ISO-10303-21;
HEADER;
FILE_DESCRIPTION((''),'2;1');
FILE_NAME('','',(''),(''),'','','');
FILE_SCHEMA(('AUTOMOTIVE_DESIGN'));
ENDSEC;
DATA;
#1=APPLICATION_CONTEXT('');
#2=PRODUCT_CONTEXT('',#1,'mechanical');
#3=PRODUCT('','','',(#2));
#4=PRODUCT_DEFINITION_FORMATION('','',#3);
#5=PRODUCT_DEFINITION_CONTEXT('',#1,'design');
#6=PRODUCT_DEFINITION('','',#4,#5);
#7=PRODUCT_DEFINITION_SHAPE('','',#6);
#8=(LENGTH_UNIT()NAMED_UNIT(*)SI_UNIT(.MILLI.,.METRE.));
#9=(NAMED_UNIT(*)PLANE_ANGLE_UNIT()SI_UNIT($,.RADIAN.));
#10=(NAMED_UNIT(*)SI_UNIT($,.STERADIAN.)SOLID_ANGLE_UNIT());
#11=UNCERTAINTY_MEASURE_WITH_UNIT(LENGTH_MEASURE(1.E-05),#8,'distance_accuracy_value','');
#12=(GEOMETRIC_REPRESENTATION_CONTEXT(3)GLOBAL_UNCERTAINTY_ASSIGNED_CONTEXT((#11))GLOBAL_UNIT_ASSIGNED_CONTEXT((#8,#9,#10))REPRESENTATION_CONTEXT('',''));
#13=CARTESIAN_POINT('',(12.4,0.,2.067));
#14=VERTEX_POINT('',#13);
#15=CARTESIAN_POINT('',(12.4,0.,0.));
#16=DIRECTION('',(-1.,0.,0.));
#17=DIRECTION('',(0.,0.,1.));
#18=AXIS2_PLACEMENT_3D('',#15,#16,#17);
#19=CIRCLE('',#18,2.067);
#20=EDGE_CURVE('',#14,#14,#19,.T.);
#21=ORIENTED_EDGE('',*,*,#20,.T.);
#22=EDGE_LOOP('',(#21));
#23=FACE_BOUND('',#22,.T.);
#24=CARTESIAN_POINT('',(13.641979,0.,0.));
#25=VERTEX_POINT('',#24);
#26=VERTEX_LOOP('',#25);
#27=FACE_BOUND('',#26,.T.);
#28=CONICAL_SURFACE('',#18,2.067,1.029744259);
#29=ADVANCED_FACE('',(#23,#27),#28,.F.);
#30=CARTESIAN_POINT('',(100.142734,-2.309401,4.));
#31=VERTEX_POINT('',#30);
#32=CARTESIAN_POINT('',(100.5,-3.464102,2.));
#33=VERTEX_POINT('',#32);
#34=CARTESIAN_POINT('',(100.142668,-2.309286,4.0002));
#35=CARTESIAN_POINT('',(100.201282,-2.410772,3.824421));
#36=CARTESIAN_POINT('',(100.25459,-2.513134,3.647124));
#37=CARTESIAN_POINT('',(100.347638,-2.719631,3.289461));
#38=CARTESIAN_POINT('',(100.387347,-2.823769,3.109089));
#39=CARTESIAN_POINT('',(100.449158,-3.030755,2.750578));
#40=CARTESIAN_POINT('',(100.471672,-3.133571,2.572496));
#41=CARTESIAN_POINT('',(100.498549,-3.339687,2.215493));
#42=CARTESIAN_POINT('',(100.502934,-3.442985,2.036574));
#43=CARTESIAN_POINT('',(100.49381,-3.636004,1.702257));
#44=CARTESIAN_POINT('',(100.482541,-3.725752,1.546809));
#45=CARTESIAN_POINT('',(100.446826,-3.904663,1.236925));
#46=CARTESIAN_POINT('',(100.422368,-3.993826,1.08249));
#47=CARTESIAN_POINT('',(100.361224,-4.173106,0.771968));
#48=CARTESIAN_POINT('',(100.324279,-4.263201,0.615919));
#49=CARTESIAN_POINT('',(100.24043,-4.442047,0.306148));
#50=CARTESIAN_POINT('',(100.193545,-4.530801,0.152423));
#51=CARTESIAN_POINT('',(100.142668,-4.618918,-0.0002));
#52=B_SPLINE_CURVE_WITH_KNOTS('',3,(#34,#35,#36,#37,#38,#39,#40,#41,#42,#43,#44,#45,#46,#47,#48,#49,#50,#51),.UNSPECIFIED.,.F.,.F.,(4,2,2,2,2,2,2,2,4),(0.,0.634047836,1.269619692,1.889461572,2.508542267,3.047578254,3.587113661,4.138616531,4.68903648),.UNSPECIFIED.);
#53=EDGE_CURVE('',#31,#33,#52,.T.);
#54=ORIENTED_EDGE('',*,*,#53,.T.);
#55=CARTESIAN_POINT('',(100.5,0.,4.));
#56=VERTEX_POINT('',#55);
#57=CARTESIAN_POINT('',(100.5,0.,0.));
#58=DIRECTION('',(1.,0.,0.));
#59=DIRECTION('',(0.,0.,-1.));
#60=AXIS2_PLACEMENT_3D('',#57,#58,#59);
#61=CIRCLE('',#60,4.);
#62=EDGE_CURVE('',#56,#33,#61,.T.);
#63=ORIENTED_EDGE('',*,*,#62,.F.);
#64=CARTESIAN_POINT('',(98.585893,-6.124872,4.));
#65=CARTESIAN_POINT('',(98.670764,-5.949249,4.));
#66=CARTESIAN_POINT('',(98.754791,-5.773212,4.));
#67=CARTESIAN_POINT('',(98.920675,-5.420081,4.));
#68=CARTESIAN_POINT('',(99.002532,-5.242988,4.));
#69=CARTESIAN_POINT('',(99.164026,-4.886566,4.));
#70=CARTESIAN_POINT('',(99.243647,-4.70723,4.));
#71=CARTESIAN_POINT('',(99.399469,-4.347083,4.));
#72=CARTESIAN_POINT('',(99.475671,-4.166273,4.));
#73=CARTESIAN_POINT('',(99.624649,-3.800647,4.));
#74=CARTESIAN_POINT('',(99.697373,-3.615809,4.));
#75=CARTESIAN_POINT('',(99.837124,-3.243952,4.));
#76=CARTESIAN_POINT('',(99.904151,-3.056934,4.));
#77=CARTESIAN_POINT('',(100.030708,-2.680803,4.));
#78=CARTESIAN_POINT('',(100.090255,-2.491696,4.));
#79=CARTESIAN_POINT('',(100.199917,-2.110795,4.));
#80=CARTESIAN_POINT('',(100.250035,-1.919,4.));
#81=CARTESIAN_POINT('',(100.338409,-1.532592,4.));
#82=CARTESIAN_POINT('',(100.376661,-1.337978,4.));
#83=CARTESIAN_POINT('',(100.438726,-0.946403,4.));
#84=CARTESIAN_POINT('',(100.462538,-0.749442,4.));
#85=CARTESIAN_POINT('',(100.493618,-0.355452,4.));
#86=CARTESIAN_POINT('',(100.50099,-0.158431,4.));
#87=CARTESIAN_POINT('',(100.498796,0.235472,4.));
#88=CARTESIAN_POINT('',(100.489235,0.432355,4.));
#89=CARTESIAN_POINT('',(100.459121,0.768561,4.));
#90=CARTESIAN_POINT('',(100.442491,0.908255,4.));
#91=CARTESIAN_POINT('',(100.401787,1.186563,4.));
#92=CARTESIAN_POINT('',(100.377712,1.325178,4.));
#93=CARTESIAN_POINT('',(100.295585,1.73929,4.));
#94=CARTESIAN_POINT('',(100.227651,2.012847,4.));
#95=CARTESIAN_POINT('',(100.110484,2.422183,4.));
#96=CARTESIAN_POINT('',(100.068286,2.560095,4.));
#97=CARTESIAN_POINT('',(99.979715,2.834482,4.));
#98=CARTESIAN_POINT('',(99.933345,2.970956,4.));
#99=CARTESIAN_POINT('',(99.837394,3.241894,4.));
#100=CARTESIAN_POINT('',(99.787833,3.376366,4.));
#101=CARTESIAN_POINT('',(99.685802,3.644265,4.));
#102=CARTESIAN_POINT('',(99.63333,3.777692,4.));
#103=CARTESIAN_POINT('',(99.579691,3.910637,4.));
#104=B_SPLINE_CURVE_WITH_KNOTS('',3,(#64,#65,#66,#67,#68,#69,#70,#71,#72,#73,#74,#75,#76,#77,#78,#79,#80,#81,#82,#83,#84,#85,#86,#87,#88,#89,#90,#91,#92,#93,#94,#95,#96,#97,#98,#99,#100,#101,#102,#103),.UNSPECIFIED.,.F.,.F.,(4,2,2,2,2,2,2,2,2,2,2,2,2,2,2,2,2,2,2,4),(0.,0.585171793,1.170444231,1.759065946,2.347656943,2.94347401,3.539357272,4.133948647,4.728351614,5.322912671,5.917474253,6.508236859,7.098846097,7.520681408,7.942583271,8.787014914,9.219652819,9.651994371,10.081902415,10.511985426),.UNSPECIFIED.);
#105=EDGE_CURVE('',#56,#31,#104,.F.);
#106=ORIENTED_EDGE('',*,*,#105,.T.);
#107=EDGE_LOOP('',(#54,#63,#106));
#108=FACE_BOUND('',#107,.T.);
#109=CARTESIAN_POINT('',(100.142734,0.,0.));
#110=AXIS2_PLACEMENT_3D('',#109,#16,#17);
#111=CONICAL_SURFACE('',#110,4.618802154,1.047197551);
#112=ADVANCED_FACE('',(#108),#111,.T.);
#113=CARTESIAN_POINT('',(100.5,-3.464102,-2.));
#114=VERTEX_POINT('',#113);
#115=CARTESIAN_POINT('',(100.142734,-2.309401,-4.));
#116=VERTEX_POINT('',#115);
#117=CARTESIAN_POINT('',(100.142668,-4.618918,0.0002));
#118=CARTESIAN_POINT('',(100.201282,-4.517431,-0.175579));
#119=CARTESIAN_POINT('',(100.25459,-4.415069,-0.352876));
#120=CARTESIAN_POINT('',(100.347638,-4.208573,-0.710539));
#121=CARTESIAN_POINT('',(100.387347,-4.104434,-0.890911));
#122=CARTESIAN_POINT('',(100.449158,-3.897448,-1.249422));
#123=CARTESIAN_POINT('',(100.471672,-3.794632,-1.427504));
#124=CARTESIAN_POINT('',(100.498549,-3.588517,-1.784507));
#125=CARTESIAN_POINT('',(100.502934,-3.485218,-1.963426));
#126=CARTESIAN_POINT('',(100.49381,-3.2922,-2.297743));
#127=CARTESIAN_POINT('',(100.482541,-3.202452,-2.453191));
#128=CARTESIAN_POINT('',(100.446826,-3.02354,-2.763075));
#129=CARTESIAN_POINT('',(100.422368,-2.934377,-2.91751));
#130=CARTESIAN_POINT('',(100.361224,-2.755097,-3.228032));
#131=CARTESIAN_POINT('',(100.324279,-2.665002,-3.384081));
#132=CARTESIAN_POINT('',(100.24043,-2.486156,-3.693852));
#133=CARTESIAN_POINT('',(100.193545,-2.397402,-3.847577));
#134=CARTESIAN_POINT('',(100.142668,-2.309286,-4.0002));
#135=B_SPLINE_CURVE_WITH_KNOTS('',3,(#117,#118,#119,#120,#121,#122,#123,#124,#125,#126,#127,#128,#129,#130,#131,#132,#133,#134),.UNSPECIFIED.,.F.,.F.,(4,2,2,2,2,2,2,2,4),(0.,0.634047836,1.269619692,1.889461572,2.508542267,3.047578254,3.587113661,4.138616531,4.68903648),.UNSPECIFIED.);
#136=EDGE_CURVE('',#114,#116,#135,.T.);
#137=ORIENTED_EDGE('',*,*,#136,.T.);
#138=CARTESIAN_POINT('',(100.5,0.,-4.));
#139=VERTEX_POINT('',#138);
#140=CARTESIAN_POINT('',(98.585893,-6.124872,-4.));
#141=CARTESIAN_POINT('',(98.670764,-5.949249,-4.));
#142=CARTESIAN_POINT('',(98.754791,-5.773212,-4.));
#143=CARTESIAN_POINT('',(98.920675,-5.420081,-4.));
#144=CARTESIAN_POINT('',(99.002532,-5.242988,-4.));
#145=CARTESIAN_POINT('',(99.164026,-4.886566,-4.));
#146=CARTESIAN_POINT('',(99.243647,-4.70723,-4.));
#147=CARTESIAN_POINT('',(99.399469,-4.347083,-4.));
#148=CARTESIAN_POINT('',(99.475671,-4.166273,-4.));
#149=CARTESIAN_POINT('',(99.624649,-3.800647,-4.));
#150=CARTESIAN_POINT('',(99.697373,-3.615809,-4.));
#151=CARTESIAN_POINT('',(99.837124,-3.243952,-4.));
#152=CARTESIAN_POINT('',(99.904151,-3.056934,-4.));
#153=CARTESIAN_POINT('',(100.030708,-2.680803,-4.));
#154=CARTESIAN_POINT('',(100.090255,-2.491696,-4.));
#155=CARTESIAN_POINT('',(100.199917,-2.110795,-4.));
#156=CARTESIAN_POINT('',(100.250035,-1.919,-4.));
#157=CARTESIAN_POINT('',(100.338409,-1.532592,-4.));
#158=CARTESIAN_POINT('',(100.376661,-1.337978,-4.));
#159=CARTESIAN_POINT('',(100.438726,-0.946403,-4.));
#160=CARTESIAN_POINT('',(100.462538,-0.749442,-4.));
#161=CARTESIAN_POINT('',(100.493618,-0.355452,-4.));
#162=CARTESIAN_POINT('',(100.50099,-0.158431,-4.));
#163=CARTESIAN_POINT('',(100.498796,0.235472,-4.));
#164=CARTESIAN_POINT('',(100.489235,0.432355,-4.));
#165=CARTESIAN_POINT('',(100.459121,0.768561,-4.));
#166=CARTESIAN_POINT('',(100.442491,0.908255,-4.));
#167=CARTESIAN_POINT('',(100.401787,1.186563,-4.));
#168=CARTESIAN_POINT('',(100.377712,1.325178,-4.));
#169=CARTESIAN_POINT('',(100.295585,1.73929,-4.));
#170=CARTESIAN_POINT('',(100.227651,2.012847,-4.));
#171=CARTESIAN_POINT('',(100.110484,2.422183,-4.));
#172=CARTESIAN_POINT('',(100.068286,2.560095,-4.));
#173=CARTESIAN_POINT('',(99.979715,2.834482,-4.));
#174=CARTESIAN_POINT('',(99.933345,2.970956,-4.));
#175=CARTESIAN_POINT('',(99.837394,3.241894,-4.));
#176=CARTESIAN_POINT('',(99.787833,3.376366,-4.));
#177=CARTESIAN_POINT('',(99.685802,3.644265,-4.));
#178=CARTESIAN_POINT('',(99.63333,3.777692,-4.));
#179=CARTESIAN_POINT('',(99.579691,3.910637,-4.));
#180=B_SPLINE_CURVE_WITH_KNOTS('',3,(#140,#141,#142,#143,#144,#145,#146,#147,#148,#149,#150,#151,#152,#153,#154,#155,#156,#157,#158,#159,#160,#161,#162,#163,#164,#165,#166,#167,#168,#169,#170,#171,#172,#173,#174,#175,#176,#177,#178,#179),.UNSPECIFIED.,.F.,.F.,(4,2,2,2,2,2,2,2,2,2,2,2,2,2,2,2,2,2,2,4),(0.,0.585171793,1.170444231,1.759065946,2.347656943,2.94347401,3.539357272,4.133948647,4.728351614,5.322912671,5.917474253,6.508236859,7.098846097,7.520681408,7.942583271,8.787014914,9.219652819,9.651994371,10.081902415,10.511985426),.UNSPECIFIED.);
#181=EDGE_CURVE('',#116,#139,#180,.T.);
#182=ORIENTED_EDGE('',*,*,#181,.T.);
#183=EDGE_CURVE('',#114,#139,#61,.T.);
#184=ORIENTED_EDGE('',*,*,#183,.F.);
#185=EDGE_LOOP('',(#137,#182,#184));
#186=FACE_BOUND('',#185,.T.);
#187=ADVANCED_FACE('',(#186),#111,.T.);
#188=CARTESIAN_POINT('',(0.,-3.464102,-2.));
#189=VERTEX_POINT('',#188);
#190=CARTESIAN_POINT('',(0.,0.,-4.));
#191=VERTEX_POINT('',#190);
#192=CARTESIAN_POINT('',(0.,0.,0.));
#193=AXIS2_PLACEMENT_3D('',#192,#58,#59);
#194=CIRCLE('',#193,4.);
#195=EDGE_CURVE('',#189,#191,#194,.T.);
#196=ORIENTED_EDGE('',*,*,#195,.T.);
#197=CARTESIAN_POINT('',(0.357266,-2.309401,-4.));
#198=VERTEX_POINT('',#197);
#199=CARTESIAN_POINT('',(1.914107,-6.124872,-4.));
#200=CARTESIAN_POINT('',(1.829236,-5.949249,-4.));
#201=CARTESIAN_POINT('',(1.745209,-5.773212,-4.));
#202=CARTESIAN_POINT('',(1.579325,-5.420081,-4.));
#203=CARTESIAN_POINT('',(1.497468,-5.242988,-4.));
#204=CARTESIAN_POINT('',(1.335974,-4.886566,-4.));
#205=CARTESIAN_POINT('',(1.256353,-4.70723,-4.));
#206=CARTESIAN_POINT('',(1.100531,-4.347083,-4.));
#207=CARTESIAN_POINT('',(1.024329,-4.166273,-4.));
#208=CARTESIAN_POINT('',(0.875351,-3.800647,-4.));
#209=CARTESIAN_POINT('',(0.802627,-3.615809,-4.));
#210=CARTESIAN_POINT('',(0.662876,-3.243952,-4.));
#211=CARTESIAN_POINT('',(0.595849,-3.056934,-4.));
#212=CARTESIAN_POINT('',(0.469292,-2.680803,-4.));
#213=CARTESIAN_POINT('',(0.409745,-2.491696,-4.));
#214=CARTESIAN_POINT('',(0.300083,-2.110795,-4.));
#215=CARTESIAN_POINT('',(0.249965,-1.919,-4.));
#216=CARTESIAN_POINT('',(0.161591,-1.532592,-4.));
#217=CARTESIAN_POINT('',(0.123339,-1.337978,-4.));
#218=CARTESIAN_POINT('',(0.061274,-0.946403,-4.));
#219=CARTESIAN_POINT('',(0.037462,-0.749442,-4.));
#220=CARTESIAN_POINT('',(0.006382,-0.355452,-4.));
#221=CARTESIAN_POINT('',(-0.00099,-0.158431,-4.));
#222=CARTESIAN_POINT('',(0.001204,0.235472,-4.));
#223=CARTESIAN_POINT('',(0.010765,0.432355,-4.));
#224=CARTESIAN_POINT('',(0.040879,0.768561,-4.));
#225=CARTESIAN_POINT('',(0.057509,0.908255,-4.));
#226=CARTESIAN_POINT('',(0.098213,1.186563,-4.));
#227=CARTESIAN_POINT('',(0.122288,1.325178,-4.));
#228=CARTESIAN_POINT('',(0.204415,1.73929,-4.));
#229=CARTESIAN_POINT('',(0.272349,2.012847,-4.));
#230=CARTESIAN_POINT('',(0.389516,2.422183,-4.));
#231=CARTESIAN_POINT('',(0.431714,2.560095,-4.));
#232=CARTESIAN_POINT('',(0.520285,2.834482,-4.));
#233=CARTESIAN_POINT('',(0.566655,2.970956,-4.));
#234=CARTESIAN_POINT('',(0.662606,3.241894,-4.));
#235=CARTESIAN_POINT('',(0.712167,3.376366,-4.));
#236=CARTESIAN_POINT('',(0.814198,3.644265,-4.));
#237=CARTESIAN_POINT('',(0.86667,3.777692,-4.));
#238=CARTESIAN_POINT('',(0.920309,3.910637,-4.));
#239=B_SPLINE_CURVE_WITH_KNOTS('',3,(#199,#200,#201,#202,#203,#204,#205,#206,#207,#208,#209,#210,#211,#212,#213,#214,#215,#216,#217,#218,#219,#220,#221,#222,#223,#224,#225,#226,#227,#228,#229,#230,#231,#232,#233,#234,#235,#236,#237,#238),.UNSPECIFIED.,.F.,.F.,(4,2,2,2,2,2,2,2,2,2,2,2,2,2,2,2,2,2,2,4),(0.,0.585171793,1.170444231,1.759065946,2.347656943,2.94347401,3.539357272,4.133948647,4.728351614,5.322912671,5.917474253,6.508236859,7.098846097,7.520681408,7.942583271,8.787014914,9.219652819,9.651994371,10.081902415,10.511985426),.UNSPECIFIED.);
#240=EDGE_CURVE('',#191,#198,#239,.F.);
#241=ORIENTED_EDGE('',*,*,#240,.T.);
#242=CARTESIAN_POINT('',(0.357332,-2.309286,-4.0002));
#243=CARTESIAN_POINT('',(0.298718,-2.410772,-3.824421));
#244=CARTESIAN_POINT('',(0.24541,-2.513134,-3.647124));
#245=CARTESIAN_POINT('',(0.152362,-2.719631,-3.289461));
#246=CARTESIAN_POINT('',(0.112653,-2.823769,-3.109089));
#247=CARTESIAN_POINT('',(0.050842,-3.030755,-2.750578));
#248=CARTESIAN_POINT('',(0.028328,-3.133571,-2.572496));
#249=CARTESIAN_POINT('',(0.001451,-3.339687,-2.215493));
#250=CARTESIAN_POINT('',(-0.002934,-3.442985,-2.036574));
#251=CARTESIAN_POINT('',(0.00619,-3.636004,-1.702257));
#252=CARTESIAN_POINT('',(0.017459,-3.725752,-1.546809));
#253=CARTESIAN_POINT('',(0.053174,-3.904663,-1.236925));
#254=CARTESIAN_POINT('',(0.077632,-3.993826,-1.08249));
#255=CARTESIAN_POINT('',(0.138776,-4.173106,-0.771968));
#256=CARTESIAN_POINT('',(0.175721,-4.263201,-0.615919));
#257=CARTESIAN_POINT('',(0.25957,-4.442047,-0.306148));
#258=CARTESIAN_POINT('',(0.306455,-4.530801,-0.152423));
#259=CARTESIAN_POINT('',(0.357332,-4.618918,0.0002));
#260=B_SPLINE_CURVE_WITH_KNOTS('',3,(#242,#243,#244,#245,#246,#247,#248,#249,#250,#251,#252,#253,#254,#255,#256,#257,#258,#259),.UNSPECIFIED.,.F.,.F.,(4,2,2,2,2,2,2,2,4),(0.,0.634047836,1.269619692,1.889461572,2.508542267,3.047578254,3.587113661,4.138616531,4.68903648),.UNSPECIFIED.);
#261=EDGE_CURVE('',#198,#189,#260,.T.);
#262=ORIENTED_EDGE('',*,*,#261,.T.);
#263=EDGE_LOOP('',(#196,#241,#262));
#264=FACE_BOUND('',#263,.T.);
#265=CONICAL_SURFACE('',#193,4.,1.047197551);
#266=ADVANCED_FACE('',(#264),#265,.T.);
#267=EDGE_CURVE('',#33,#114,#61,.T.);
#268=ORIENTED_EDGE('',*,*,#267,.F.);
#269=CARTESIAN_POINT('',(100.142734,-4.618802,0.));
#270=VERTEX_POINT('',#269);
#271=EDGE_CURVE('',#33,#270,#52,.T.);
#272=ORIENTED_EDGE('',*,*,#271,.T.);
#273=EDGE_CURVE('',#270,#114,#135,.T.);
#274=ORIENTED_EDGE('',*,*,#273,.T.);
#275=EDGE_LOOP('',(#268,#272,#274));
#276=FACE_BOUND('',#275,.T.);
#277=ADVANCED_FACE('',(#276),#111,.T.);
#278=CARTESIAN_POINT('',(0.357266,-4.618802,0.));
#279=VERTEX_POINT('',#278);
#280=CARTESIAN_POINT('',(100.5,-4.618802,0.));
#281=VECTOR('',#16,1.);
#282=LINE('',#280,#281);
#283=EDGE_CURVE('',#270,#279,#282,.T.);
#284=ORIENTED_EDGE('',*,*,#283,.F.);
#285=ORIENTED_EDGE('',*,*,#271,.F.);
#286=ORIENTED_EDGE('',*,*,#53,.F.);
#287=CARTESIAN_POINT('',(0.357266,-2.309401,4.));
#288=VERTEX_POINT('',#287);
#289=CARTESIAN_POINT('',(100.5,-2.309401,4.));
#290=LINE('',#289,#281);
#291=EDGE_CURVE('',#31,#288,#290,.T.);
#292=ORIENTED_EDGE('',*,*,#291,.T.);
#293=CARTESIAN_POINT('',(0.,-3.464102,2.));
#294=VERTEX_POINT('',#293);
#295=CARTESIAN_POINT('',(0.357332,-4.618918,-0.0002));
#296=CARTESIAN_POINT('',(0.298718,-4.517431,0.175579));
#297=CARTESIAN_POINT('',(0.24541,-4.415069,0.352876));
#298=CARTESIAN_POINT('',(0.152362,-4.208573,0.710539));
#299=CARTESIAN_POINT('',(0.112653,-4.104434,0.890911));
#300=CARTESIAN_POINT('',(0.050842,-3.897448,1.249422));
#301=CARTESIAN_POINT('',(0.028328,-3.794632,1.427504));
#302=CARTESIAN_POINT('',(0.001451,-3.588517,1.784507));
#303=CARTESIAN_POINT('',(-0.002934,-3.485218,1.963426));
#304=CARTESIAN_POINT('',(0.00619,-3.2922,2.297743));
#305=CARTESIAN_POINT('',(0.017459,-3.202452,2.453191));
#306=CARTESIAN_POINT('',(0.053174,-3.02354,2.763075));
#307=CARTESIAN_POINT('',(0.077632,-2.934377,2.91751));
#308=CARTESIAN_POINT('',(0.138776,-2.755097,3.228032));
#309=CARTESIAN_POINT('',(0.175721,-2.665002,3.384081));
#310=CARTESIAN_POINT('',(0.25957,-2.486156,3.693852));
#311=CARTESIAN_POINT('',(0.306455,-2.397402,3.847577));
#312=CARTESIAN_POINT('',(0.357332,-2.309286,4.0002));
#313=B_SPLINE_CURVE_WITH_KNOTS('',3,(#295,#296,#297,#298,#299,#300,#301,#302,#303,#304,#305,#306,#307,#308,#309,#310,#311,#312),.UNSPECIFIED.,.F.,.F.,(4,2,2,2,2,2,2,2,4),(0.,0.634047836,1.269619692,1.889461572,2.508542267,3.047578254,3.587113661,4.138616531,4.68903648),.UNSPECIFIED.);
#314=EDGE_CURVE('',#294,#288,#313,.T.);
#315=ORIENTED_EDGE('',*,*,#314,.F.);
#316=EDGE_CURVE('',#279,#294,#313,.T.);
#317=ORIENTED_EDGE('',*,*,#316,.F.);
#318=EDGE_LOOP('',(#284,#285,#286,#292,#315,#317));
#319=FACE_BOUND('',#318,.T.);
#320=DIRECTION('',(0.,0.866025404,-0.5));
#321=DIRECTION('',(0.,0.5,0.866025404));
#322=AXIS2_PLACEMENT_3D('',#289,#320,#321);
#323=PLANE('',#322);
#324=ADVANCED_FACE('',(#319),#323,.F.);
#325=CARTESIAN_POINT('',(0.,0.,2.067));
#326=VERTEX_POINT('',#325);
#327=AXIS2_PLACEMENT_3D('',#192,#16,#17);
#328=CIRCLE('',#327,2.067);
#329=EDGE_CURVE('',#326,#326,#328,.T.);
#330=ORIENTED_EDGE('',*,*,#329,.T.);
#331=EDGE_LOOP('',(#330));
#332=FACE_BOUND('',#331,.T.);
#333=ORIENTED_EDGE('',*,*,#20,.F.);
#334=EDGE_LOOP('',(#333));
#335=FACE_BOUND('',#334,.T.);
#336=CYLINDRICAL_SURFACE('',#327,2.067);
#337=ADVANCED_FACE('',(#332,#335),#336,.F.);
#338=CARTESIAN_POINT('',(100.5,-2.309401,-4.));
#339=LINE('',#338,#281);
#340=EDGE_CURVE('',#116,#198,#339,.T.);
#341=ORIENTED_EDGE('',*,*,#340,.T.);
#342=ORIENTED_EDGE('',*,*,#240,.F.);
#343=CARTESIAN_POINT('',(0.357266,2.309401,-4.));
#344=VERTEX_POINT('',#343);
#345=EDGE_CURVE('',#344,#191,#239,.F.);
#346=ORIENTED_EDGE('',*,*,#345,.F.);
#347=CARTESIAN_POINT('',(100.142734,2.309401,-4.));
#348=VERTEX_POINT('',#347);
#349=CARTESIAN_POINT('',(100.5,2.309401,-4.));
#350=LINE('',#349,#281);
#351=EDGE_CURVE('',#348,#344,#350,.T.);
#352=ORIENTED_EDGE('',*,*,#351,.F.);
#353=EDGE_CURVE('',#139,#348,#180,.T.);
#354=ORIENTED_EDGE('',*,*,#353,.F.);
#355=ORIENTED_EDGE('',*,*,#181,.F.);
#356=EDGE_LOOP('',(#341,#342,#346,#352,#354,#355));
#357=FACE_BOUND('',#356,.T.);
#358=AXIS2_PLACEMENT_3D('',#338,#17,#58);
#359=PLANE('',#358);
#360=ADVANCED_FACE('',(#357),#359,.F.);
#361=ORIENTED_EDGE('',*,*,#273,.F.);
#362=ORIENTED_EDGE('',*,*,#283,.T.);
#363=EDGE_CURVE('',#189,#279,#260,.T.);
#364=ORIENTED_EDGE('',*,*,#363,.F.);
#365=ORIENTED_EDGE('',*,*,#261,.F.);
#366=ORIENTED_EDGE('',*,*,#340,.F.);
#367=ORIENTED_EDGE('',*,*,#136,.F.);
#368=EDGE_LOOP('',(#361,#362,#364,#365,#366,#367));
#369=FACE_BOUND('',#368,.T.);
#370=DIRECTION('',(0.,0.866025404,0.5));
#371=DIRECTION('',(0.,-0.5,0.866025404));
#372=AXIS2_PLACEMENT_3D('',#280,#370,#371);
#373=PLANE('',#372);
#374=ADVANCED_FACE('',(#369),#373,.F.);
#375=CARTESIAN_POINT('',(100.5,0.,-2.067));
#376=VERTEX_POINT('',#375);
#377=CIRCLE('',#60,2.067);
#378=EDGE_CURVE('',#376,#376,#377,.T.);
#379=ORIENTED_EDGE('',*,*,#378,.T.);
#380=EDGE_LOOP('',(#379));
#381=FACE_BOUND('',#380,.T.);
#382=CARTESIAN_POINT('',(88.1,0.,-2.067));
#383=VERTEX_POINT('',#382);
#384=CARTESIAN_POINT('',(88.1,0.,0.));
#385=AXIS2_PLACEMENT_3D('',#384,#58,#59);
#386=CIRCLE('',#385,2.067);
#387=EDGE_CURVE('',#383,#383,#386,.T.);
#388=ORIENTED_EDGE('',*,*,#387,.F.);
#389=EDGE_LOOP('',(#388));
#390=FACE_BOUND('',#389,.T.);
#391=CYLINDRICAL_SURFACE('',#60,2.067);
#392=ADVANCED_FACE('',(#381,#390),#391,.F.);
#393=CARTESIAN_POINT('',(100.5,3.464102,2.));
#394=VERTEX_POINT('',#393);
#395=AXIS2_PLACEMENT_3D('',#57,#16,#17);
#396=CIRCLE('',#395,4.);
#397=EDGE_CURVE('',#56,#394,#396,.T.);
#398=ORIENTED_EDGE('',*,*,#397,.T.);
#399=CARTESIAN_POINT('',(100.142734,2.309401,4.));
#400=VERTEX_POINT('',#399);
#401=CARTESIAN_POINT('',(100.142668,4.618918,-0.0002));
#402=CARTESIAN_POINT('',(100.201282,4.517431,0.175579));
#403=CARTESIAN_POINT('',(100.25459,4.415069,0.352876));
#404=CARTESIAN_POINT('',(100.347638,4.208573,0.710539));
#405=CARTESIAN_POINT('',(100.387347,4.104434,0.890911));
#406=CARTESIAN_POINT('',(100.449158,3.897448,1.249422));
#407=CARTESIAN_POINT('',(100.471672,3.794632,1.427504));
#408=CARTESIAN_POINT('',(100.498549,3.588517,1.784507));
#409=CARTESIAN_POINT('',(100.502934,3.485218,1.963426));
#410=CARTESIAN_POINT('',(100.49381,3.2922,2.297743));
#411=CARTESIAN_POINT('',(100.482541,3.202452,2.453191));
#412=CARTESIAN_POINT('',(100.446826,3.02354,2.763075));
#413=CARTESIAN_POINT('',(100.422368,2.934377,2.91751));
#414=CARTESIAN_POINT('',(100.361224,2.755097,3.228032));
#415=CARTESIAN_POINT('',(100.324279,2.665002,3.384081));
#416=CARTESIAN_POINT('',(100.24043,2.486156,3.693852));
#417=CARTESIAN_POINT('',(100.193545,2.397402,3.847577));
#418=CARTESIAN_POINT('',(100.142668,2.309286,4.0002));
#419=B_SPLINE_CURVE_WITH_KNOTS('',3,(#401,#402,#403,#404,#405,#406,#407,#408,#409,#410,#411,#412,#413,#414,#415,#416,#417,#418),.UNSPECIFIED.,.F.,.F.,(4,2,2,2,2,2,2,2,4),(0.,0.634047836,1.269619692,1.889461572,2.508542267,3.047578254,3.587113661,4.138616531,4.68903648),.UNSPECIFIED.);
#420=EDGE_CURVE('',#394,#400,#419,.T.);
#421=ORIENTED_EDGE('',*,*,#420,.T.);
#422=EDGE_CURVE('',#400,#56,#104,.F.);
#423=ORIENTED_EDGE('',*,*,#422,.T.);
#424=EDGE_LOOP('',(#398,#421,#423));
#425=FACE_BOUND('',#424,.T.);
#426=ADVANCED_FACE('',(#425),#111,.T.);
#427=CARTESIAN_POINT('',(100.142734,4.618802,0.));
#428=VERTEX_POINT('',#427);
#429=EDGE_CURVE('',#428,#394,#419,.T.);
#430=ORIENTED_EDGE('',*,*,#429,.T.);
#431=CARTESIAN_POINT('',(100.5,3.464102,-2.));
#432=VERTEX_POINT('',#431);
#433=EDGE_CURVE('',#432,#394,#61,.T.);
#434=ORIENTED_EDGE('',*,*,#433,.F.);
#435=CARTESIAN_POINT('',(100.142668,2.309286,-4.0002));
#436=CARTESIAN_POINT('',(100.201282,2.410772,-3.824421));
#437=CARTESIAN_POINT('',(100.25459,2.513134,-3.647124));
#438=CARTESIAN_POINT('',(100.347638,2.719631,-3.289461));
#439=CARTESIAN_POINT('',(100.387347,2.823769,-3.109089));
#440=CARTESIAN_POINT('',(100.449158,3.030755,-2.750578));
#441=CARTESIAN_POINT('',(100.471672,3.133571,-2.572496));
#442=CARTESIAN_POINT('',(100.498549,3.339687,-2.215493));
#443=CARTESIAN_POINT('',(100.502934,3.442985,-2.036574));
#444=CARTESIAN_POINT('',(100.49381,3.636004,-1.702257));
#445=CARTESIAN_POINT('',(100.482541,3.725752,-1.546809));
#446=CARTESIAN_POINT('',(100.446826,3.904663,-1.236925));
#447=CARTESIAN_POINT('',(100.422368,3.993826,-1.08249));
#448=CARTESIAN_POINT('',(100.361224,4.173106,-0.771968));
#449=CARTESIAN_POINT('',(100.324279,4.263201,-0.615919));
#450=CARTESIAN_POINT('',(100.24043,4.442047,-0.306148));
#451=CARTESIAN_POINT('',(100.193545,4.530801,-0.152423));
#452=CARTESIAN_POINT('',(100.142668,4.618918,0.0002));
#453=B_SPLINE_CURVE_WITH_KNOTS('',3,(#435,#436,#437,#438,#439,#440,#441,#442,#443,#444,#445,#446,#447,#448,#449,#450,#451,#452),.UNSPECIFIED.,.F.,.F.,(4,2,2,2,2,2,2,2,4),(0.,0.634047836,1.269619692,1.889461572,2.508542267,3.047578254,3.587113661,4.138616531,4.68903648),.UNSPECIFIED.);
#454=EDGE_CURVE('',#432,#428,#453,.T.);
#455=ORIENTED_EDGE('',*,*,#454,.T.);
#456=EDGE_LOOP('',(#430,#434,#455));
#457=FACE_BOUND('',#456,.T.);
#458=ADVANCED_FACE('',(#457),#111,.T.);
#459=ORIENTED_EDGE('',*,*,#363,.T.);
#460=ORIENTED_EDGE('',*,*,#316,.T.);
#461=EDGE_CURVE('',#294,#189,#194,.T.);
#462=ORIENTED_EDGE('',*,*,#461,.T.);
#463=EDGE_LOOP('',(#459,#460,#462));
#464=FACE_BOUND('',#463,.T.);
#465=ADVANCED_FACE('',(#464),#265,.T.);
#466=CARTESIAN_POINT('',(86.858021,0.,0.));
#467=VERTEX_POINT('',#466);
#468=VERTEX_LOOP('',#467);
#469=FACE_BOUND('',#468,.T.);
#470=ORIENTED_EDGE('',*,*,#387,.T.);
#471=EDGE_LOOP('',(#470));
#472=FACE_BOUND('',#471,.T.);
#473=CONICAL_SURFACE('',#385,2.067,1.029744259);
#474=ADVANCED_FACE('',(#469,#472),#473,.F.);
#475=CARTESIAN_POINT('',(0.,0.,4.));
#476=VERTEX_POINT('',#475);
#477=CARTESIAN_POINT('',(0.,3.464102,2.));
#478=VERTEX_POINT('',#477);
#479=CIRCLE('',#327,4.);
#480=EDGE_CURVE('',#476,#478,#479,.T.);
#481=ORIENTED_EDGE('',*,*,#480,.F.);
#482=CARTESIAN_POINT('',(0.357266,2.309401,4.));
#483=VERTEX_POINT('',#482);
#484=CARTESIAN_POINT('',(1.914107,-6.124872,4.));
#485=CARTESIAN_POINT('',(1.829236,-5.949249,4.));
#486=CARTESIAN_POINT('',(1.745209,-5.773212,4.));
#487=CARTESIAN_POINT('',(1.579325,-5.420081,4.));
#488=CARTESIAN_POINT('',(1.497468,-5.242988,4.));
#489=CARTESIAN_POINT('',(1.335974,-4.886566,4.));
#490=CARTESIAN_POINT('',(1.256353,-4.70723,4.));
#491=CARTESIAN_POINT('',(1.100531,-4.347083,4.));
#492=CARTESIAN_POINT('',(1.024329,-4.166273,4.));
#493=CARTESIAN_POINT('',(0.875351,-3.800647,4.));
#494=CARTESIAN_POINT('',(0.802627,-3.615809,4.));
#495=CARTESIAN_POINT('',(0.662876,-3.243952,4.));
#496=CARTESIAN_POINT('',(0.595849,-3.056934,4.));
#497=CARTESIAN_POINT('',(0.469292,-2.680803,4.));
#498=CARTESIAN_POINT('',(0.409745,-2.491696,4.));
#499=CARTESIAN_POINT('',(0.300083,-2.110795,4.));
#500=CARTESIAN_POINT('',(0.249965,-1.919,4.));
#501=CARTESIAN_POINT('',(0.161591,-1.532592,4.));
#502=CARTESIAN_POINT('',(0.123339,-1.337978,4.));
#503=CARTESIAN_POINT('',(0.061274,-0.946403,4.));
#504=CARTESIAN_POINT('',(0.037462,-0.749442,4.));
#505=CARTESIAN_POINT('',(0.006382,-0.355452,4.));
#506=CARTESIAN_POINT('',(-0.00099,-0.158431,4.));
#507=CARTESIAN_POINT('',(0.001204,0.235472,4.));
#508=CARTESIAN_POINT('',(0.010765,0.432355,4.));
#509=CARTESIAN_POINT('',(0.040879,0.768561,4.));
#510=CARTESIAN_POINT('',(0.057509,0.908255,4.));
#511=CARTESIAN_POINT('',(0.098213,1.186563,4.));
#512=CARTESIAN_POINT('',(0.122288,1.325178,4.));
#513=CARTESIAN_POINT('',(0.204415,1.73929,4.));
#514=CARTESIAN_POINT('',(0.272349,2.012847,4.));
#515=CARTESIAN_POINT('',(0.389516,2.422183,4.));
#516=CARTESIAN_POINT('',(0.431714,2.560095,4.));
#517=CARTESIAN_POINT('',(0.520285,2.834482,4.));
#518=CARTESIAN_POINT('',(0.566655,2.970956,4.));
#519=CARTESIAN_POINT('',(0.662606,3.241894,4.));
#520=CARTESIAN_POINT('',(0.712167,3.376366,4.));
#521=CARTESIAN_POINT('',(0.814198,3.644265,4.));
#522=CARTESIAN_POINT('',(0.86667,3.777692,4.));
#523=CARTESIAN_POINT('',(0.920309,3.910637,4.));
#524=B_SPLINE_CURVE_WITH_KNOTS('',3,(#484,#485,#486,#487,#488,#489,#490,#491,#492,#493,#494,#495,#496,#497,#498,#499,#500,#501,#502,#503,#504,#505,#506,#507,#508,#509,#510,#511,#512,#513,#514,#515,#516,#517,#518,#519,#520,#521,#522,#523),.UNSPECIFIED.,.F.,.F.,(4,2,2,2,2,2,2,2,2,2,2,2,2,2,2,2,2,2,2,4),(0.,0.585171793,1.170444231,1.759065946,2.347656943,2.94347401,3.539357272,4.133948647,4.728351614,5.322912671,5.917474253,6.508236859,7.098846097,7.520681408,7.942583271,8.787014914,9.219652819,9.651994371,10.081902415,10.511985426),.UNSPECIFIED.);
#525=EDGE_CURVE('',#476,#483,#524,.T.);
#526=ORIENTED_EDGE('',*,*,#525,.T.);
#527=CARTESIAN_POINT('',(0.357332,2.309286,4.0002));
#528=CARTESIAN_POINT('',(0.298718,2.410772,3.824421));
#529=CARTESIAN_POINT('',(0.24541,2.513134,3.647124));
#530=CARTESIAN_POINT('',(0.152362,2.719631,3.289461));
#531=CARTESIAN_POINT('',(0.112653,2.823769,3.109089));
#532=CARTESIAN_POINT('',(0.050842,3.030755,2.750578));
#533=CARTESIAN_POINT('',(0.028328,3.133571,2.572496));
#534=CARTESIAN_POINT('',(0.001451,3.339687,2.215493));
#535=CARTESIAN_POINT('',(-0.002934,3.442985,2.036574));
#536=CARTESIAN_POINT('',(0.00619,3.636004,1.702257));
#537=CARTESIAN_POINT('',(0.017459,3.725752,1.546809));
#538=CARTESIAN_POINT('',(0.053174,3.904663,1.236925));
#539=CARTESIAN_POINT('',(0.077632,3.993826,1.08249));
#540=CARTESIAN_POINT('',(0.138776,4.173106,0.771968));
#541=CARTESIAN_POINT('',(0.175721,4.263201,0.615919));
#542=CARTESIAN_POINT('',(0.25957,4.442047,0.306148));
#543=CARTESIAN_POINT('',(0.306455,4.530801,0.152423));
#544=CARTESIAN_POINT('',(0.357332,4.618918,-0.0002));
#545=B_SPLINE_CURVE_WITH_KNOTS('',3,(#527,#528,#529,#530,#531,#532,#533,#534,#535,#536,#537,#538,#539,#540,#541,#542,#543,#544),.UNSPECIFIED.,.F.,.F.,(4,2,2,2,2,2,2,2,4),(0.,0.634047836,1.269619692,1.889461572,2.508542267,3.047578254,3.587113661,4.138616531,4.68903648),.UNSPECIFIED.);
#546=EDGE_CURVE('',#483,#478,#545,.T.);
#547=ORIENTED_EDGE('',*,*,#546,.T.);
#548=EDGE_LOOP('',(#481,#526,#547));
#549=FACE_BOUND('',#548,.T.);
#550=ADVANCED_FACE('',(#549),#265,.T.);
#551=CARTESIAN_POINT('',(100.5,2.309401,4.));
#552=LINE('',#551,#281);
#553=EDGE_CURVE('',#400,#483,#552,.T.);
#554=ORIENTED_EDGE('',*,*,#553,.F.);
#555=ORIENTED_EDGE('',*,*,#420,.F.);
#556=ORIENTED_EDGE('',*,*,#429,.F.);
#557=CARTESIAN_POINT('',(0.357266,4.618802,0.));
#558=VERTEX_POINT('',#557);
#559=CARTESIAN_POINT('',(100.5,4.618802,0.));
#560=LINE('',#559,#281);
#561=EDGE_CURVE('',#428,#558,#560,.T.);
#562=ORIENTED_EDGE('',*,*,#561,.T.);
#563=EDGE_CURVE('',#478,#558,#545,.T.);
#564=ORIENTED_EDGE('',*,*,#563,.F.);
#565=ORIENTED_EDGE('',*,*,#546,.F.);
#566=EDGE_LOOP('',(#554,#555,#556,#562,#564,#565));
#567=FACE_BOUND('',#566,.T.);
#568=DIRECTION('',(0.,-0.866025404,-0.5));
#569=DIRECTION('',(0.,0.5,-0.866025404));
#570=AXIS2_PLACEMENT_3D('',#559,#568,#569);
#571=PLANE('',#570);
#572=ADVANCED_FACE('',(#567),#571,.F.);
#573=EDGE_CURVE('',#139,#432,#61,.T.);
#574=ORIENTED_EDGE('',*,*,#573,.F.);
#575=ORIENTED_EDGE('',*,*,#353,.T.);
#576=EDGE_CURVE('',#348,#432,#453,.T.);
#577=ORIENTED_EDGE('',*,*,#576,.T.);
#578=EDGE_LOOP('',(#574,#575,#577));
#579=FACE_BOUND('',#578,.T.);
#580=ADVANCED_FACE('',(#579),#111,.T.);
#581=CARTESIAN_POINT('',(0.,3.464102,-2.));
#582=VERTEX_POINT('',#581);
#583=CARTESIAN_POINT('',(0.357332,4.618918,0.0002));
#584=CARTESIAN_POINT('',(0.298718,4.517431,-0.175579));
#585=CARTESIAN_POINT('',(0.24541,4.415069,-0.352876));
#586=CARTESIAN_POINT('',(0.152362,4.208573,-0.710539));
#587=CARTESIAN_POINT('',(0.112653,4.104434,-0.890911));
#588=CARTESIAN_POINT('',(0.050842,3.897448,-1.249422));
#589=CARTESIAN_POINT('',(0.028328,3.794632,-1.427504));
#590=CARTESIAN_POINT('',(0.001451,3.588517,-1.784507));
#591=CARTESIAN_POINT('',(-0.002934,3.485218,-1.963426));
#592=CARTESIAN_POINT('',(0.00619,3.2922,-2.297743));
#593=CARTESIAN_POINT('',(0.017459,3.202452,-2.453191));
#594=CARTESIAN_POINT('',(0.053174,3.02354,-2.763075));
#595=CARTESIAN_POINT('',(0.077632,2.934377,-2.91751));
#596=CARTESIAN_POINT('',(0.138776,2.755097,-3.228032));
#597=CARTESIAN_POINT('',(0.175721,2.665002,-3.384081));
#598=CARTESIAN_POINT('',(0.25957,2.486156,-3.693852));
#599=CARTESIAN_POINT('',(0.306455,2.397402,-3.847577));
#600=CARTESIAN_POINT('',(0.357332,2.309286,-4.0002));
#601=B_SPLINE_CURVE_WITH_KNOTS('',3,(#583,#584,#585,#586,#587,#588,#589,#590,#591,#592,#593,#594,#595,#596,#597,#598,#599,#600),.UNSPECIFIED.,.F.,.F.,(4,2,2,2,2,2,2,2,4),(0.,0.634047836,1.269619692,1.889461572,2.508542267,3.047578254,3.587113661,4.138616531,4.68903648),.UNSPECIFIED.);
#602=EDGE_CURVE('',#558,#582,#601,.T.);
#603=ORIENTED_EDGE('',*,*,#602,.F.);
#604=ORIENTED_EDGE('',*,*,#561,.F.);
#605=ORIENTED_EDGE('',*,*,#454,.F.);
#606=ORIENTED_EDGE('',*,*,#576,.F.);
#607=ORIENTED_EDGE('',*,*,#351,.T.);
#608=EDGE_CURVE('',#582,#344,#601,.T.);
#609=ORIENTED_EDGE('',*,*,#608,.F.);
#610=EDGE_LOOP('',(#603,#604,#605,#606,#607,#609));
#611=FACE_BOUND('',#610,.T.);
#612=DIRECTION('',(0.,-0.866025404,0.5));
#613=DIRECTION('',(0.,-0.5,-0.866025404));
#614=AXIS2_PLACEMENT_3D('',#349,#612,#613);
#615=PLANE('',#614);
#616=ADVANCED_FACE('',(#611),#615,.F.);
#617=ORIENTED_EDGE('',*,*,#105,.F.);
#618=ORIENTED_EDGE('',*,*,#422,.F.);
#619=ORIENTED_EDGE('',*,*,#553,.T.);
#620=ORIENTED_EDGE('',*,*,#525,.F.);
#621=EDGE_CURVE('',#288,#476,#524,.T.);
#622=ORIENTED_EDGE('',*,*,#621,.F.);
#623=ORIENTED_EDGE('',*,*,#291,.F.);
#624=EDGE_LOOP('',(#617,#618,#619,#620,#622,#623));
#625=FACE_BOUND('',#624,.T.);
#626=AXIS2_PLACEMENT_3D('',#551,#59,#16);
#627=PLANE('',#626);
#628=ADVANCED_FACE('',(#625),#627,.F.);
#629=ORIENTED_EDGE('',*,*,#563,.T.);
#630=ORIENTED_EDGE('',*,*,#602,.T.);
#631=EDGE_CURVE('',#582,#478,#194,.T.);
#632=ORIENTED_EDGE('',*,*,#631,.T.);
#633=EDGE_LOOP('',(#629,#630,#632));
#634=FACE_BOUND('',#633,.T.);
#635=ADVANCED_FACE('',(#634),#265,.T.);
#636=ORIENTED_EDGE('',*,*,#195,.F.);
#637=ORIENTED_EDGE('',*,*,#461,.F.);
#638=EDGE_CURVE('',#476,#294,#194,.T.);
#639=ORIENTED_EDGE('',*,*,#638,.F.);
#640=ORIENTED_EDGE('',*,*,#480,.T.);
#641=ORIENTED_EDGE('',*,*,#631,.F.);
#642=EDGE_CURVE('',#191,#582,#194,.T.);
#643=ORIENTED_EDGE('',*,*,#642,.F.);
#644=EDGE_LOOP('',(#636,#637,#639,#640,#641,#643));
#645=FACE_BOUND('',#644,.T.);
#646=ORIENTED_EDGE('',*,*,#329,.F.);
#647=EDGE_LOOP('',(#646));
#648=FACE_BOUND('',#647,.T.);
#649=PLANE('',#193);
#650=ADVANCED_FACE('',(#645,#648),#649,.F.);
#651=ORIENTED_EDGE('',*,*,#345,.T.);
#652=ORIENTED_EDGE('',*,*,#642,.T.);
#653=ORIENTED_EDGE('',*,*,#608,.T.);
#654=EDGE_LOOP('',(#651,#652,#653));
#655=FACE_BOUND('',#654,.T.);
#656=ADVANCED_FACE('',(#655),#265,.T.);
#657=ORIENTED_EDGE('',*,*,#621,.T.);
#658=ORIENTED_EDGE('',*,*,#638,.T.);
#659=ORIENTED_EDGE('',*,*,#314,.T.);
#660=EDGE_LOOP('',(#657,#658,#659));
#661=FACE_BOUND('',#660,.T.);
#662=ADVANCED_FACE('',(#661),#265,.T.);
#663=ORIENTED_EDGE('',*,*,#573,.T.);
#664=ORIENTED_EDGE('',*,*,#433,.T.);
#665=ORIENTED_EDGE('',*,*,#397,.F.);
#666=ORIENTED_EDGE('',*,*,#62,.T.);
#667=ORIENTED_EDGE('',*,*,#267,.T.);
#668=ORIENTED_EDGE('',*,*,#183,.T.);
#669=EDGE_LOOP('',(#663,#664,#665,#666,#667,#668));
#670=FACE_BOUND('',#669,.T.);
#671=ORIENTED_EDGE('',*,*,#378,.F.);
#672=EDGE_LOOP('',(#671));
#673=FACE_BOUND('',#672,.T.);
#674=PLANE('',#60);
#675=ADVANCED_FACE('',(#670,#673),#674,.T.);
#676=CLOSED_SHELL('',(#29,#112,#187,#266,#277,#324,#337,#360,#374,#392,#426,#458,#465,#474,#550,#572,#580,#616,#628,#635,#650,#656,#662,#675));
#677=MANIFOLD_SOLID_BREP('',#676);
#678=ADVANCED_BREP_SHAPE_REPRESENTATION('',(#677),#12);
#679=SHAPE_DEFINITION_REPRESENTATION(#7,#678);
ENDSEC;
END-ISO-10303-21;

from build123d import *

# Parameters (mm, degrees)
BOSS_EXTRUDE1_DEPTH = 100.5
TAP1_D              = 4.134
TAP1_DEPTH          = 12.4
TAP1_TIP            = 1.2419789
TAP2_D              = 4.134
TAP2_DEPTH          = 12.4
TAP2_TIP            = 1.2419789


with BuildPart() as part:
    # Sketch1 → Boss-Extrude1 (new body)
    with BuildSketch(Plane(origin=(0, 0, 0), x_dir=(0, 0, -1), z_dir=(1, 0, 0))):
        Polygon((0, -4.618802154), (4, -2.309401077), (4, 2.309401077), (0, 4.618802154), (-4, 2.309401077), (-4, -2.309401077), align=None)
    extrude(amount=BOSS_EXTRUDE1_DEPTH)

    # Sketch2 → Cut-Revolve1 (revolve, cut)
    with BuildSketch(Plane.XY):
        Polygon((0, 4.618802154), (0.35726559, 4.618802154), (0, 4), align=None)
        Polygon((100.14273441, 4.618802154), (100.5, 4), (100.5, 4.618802154), align=None)
    revolve(axis=Axis((0, 0, 0), (1, 0, 0)), mode=Mode.SUBTRACT)

    # Tap1
    with Locations(Plane.ZY):
        with Locations((0, 0)):
            Hole(TAP1_D / 2, depth=TAP1_DEPTH)
            with Locations((0, 0, -(TAP1_DEPTH + TAP1_TIP / 2))):  # 118° drill point
                Cone(0, TAP1_D / 2, TAP1_TIP, mode=Mode.SUBTRACT)

    # Tap2
    with Locations(Plane(origin=(100.5, 0, 0), x_dir=(0, 0, -1), z_dir=(1, 0, 0))):
        with Locations((0, 0)):
            Hole(TAP2_D / 2, depth=TAP2_DEPTH)
            with Locations((0, 0, -(TAP2_DEPTH + TAP2_TIP / 2))):  # 118° drill point
                Cone(0, TAP2_D / 2, TAP2_TIP, mode=Mode.SUBTRACT)


solid = part.part
